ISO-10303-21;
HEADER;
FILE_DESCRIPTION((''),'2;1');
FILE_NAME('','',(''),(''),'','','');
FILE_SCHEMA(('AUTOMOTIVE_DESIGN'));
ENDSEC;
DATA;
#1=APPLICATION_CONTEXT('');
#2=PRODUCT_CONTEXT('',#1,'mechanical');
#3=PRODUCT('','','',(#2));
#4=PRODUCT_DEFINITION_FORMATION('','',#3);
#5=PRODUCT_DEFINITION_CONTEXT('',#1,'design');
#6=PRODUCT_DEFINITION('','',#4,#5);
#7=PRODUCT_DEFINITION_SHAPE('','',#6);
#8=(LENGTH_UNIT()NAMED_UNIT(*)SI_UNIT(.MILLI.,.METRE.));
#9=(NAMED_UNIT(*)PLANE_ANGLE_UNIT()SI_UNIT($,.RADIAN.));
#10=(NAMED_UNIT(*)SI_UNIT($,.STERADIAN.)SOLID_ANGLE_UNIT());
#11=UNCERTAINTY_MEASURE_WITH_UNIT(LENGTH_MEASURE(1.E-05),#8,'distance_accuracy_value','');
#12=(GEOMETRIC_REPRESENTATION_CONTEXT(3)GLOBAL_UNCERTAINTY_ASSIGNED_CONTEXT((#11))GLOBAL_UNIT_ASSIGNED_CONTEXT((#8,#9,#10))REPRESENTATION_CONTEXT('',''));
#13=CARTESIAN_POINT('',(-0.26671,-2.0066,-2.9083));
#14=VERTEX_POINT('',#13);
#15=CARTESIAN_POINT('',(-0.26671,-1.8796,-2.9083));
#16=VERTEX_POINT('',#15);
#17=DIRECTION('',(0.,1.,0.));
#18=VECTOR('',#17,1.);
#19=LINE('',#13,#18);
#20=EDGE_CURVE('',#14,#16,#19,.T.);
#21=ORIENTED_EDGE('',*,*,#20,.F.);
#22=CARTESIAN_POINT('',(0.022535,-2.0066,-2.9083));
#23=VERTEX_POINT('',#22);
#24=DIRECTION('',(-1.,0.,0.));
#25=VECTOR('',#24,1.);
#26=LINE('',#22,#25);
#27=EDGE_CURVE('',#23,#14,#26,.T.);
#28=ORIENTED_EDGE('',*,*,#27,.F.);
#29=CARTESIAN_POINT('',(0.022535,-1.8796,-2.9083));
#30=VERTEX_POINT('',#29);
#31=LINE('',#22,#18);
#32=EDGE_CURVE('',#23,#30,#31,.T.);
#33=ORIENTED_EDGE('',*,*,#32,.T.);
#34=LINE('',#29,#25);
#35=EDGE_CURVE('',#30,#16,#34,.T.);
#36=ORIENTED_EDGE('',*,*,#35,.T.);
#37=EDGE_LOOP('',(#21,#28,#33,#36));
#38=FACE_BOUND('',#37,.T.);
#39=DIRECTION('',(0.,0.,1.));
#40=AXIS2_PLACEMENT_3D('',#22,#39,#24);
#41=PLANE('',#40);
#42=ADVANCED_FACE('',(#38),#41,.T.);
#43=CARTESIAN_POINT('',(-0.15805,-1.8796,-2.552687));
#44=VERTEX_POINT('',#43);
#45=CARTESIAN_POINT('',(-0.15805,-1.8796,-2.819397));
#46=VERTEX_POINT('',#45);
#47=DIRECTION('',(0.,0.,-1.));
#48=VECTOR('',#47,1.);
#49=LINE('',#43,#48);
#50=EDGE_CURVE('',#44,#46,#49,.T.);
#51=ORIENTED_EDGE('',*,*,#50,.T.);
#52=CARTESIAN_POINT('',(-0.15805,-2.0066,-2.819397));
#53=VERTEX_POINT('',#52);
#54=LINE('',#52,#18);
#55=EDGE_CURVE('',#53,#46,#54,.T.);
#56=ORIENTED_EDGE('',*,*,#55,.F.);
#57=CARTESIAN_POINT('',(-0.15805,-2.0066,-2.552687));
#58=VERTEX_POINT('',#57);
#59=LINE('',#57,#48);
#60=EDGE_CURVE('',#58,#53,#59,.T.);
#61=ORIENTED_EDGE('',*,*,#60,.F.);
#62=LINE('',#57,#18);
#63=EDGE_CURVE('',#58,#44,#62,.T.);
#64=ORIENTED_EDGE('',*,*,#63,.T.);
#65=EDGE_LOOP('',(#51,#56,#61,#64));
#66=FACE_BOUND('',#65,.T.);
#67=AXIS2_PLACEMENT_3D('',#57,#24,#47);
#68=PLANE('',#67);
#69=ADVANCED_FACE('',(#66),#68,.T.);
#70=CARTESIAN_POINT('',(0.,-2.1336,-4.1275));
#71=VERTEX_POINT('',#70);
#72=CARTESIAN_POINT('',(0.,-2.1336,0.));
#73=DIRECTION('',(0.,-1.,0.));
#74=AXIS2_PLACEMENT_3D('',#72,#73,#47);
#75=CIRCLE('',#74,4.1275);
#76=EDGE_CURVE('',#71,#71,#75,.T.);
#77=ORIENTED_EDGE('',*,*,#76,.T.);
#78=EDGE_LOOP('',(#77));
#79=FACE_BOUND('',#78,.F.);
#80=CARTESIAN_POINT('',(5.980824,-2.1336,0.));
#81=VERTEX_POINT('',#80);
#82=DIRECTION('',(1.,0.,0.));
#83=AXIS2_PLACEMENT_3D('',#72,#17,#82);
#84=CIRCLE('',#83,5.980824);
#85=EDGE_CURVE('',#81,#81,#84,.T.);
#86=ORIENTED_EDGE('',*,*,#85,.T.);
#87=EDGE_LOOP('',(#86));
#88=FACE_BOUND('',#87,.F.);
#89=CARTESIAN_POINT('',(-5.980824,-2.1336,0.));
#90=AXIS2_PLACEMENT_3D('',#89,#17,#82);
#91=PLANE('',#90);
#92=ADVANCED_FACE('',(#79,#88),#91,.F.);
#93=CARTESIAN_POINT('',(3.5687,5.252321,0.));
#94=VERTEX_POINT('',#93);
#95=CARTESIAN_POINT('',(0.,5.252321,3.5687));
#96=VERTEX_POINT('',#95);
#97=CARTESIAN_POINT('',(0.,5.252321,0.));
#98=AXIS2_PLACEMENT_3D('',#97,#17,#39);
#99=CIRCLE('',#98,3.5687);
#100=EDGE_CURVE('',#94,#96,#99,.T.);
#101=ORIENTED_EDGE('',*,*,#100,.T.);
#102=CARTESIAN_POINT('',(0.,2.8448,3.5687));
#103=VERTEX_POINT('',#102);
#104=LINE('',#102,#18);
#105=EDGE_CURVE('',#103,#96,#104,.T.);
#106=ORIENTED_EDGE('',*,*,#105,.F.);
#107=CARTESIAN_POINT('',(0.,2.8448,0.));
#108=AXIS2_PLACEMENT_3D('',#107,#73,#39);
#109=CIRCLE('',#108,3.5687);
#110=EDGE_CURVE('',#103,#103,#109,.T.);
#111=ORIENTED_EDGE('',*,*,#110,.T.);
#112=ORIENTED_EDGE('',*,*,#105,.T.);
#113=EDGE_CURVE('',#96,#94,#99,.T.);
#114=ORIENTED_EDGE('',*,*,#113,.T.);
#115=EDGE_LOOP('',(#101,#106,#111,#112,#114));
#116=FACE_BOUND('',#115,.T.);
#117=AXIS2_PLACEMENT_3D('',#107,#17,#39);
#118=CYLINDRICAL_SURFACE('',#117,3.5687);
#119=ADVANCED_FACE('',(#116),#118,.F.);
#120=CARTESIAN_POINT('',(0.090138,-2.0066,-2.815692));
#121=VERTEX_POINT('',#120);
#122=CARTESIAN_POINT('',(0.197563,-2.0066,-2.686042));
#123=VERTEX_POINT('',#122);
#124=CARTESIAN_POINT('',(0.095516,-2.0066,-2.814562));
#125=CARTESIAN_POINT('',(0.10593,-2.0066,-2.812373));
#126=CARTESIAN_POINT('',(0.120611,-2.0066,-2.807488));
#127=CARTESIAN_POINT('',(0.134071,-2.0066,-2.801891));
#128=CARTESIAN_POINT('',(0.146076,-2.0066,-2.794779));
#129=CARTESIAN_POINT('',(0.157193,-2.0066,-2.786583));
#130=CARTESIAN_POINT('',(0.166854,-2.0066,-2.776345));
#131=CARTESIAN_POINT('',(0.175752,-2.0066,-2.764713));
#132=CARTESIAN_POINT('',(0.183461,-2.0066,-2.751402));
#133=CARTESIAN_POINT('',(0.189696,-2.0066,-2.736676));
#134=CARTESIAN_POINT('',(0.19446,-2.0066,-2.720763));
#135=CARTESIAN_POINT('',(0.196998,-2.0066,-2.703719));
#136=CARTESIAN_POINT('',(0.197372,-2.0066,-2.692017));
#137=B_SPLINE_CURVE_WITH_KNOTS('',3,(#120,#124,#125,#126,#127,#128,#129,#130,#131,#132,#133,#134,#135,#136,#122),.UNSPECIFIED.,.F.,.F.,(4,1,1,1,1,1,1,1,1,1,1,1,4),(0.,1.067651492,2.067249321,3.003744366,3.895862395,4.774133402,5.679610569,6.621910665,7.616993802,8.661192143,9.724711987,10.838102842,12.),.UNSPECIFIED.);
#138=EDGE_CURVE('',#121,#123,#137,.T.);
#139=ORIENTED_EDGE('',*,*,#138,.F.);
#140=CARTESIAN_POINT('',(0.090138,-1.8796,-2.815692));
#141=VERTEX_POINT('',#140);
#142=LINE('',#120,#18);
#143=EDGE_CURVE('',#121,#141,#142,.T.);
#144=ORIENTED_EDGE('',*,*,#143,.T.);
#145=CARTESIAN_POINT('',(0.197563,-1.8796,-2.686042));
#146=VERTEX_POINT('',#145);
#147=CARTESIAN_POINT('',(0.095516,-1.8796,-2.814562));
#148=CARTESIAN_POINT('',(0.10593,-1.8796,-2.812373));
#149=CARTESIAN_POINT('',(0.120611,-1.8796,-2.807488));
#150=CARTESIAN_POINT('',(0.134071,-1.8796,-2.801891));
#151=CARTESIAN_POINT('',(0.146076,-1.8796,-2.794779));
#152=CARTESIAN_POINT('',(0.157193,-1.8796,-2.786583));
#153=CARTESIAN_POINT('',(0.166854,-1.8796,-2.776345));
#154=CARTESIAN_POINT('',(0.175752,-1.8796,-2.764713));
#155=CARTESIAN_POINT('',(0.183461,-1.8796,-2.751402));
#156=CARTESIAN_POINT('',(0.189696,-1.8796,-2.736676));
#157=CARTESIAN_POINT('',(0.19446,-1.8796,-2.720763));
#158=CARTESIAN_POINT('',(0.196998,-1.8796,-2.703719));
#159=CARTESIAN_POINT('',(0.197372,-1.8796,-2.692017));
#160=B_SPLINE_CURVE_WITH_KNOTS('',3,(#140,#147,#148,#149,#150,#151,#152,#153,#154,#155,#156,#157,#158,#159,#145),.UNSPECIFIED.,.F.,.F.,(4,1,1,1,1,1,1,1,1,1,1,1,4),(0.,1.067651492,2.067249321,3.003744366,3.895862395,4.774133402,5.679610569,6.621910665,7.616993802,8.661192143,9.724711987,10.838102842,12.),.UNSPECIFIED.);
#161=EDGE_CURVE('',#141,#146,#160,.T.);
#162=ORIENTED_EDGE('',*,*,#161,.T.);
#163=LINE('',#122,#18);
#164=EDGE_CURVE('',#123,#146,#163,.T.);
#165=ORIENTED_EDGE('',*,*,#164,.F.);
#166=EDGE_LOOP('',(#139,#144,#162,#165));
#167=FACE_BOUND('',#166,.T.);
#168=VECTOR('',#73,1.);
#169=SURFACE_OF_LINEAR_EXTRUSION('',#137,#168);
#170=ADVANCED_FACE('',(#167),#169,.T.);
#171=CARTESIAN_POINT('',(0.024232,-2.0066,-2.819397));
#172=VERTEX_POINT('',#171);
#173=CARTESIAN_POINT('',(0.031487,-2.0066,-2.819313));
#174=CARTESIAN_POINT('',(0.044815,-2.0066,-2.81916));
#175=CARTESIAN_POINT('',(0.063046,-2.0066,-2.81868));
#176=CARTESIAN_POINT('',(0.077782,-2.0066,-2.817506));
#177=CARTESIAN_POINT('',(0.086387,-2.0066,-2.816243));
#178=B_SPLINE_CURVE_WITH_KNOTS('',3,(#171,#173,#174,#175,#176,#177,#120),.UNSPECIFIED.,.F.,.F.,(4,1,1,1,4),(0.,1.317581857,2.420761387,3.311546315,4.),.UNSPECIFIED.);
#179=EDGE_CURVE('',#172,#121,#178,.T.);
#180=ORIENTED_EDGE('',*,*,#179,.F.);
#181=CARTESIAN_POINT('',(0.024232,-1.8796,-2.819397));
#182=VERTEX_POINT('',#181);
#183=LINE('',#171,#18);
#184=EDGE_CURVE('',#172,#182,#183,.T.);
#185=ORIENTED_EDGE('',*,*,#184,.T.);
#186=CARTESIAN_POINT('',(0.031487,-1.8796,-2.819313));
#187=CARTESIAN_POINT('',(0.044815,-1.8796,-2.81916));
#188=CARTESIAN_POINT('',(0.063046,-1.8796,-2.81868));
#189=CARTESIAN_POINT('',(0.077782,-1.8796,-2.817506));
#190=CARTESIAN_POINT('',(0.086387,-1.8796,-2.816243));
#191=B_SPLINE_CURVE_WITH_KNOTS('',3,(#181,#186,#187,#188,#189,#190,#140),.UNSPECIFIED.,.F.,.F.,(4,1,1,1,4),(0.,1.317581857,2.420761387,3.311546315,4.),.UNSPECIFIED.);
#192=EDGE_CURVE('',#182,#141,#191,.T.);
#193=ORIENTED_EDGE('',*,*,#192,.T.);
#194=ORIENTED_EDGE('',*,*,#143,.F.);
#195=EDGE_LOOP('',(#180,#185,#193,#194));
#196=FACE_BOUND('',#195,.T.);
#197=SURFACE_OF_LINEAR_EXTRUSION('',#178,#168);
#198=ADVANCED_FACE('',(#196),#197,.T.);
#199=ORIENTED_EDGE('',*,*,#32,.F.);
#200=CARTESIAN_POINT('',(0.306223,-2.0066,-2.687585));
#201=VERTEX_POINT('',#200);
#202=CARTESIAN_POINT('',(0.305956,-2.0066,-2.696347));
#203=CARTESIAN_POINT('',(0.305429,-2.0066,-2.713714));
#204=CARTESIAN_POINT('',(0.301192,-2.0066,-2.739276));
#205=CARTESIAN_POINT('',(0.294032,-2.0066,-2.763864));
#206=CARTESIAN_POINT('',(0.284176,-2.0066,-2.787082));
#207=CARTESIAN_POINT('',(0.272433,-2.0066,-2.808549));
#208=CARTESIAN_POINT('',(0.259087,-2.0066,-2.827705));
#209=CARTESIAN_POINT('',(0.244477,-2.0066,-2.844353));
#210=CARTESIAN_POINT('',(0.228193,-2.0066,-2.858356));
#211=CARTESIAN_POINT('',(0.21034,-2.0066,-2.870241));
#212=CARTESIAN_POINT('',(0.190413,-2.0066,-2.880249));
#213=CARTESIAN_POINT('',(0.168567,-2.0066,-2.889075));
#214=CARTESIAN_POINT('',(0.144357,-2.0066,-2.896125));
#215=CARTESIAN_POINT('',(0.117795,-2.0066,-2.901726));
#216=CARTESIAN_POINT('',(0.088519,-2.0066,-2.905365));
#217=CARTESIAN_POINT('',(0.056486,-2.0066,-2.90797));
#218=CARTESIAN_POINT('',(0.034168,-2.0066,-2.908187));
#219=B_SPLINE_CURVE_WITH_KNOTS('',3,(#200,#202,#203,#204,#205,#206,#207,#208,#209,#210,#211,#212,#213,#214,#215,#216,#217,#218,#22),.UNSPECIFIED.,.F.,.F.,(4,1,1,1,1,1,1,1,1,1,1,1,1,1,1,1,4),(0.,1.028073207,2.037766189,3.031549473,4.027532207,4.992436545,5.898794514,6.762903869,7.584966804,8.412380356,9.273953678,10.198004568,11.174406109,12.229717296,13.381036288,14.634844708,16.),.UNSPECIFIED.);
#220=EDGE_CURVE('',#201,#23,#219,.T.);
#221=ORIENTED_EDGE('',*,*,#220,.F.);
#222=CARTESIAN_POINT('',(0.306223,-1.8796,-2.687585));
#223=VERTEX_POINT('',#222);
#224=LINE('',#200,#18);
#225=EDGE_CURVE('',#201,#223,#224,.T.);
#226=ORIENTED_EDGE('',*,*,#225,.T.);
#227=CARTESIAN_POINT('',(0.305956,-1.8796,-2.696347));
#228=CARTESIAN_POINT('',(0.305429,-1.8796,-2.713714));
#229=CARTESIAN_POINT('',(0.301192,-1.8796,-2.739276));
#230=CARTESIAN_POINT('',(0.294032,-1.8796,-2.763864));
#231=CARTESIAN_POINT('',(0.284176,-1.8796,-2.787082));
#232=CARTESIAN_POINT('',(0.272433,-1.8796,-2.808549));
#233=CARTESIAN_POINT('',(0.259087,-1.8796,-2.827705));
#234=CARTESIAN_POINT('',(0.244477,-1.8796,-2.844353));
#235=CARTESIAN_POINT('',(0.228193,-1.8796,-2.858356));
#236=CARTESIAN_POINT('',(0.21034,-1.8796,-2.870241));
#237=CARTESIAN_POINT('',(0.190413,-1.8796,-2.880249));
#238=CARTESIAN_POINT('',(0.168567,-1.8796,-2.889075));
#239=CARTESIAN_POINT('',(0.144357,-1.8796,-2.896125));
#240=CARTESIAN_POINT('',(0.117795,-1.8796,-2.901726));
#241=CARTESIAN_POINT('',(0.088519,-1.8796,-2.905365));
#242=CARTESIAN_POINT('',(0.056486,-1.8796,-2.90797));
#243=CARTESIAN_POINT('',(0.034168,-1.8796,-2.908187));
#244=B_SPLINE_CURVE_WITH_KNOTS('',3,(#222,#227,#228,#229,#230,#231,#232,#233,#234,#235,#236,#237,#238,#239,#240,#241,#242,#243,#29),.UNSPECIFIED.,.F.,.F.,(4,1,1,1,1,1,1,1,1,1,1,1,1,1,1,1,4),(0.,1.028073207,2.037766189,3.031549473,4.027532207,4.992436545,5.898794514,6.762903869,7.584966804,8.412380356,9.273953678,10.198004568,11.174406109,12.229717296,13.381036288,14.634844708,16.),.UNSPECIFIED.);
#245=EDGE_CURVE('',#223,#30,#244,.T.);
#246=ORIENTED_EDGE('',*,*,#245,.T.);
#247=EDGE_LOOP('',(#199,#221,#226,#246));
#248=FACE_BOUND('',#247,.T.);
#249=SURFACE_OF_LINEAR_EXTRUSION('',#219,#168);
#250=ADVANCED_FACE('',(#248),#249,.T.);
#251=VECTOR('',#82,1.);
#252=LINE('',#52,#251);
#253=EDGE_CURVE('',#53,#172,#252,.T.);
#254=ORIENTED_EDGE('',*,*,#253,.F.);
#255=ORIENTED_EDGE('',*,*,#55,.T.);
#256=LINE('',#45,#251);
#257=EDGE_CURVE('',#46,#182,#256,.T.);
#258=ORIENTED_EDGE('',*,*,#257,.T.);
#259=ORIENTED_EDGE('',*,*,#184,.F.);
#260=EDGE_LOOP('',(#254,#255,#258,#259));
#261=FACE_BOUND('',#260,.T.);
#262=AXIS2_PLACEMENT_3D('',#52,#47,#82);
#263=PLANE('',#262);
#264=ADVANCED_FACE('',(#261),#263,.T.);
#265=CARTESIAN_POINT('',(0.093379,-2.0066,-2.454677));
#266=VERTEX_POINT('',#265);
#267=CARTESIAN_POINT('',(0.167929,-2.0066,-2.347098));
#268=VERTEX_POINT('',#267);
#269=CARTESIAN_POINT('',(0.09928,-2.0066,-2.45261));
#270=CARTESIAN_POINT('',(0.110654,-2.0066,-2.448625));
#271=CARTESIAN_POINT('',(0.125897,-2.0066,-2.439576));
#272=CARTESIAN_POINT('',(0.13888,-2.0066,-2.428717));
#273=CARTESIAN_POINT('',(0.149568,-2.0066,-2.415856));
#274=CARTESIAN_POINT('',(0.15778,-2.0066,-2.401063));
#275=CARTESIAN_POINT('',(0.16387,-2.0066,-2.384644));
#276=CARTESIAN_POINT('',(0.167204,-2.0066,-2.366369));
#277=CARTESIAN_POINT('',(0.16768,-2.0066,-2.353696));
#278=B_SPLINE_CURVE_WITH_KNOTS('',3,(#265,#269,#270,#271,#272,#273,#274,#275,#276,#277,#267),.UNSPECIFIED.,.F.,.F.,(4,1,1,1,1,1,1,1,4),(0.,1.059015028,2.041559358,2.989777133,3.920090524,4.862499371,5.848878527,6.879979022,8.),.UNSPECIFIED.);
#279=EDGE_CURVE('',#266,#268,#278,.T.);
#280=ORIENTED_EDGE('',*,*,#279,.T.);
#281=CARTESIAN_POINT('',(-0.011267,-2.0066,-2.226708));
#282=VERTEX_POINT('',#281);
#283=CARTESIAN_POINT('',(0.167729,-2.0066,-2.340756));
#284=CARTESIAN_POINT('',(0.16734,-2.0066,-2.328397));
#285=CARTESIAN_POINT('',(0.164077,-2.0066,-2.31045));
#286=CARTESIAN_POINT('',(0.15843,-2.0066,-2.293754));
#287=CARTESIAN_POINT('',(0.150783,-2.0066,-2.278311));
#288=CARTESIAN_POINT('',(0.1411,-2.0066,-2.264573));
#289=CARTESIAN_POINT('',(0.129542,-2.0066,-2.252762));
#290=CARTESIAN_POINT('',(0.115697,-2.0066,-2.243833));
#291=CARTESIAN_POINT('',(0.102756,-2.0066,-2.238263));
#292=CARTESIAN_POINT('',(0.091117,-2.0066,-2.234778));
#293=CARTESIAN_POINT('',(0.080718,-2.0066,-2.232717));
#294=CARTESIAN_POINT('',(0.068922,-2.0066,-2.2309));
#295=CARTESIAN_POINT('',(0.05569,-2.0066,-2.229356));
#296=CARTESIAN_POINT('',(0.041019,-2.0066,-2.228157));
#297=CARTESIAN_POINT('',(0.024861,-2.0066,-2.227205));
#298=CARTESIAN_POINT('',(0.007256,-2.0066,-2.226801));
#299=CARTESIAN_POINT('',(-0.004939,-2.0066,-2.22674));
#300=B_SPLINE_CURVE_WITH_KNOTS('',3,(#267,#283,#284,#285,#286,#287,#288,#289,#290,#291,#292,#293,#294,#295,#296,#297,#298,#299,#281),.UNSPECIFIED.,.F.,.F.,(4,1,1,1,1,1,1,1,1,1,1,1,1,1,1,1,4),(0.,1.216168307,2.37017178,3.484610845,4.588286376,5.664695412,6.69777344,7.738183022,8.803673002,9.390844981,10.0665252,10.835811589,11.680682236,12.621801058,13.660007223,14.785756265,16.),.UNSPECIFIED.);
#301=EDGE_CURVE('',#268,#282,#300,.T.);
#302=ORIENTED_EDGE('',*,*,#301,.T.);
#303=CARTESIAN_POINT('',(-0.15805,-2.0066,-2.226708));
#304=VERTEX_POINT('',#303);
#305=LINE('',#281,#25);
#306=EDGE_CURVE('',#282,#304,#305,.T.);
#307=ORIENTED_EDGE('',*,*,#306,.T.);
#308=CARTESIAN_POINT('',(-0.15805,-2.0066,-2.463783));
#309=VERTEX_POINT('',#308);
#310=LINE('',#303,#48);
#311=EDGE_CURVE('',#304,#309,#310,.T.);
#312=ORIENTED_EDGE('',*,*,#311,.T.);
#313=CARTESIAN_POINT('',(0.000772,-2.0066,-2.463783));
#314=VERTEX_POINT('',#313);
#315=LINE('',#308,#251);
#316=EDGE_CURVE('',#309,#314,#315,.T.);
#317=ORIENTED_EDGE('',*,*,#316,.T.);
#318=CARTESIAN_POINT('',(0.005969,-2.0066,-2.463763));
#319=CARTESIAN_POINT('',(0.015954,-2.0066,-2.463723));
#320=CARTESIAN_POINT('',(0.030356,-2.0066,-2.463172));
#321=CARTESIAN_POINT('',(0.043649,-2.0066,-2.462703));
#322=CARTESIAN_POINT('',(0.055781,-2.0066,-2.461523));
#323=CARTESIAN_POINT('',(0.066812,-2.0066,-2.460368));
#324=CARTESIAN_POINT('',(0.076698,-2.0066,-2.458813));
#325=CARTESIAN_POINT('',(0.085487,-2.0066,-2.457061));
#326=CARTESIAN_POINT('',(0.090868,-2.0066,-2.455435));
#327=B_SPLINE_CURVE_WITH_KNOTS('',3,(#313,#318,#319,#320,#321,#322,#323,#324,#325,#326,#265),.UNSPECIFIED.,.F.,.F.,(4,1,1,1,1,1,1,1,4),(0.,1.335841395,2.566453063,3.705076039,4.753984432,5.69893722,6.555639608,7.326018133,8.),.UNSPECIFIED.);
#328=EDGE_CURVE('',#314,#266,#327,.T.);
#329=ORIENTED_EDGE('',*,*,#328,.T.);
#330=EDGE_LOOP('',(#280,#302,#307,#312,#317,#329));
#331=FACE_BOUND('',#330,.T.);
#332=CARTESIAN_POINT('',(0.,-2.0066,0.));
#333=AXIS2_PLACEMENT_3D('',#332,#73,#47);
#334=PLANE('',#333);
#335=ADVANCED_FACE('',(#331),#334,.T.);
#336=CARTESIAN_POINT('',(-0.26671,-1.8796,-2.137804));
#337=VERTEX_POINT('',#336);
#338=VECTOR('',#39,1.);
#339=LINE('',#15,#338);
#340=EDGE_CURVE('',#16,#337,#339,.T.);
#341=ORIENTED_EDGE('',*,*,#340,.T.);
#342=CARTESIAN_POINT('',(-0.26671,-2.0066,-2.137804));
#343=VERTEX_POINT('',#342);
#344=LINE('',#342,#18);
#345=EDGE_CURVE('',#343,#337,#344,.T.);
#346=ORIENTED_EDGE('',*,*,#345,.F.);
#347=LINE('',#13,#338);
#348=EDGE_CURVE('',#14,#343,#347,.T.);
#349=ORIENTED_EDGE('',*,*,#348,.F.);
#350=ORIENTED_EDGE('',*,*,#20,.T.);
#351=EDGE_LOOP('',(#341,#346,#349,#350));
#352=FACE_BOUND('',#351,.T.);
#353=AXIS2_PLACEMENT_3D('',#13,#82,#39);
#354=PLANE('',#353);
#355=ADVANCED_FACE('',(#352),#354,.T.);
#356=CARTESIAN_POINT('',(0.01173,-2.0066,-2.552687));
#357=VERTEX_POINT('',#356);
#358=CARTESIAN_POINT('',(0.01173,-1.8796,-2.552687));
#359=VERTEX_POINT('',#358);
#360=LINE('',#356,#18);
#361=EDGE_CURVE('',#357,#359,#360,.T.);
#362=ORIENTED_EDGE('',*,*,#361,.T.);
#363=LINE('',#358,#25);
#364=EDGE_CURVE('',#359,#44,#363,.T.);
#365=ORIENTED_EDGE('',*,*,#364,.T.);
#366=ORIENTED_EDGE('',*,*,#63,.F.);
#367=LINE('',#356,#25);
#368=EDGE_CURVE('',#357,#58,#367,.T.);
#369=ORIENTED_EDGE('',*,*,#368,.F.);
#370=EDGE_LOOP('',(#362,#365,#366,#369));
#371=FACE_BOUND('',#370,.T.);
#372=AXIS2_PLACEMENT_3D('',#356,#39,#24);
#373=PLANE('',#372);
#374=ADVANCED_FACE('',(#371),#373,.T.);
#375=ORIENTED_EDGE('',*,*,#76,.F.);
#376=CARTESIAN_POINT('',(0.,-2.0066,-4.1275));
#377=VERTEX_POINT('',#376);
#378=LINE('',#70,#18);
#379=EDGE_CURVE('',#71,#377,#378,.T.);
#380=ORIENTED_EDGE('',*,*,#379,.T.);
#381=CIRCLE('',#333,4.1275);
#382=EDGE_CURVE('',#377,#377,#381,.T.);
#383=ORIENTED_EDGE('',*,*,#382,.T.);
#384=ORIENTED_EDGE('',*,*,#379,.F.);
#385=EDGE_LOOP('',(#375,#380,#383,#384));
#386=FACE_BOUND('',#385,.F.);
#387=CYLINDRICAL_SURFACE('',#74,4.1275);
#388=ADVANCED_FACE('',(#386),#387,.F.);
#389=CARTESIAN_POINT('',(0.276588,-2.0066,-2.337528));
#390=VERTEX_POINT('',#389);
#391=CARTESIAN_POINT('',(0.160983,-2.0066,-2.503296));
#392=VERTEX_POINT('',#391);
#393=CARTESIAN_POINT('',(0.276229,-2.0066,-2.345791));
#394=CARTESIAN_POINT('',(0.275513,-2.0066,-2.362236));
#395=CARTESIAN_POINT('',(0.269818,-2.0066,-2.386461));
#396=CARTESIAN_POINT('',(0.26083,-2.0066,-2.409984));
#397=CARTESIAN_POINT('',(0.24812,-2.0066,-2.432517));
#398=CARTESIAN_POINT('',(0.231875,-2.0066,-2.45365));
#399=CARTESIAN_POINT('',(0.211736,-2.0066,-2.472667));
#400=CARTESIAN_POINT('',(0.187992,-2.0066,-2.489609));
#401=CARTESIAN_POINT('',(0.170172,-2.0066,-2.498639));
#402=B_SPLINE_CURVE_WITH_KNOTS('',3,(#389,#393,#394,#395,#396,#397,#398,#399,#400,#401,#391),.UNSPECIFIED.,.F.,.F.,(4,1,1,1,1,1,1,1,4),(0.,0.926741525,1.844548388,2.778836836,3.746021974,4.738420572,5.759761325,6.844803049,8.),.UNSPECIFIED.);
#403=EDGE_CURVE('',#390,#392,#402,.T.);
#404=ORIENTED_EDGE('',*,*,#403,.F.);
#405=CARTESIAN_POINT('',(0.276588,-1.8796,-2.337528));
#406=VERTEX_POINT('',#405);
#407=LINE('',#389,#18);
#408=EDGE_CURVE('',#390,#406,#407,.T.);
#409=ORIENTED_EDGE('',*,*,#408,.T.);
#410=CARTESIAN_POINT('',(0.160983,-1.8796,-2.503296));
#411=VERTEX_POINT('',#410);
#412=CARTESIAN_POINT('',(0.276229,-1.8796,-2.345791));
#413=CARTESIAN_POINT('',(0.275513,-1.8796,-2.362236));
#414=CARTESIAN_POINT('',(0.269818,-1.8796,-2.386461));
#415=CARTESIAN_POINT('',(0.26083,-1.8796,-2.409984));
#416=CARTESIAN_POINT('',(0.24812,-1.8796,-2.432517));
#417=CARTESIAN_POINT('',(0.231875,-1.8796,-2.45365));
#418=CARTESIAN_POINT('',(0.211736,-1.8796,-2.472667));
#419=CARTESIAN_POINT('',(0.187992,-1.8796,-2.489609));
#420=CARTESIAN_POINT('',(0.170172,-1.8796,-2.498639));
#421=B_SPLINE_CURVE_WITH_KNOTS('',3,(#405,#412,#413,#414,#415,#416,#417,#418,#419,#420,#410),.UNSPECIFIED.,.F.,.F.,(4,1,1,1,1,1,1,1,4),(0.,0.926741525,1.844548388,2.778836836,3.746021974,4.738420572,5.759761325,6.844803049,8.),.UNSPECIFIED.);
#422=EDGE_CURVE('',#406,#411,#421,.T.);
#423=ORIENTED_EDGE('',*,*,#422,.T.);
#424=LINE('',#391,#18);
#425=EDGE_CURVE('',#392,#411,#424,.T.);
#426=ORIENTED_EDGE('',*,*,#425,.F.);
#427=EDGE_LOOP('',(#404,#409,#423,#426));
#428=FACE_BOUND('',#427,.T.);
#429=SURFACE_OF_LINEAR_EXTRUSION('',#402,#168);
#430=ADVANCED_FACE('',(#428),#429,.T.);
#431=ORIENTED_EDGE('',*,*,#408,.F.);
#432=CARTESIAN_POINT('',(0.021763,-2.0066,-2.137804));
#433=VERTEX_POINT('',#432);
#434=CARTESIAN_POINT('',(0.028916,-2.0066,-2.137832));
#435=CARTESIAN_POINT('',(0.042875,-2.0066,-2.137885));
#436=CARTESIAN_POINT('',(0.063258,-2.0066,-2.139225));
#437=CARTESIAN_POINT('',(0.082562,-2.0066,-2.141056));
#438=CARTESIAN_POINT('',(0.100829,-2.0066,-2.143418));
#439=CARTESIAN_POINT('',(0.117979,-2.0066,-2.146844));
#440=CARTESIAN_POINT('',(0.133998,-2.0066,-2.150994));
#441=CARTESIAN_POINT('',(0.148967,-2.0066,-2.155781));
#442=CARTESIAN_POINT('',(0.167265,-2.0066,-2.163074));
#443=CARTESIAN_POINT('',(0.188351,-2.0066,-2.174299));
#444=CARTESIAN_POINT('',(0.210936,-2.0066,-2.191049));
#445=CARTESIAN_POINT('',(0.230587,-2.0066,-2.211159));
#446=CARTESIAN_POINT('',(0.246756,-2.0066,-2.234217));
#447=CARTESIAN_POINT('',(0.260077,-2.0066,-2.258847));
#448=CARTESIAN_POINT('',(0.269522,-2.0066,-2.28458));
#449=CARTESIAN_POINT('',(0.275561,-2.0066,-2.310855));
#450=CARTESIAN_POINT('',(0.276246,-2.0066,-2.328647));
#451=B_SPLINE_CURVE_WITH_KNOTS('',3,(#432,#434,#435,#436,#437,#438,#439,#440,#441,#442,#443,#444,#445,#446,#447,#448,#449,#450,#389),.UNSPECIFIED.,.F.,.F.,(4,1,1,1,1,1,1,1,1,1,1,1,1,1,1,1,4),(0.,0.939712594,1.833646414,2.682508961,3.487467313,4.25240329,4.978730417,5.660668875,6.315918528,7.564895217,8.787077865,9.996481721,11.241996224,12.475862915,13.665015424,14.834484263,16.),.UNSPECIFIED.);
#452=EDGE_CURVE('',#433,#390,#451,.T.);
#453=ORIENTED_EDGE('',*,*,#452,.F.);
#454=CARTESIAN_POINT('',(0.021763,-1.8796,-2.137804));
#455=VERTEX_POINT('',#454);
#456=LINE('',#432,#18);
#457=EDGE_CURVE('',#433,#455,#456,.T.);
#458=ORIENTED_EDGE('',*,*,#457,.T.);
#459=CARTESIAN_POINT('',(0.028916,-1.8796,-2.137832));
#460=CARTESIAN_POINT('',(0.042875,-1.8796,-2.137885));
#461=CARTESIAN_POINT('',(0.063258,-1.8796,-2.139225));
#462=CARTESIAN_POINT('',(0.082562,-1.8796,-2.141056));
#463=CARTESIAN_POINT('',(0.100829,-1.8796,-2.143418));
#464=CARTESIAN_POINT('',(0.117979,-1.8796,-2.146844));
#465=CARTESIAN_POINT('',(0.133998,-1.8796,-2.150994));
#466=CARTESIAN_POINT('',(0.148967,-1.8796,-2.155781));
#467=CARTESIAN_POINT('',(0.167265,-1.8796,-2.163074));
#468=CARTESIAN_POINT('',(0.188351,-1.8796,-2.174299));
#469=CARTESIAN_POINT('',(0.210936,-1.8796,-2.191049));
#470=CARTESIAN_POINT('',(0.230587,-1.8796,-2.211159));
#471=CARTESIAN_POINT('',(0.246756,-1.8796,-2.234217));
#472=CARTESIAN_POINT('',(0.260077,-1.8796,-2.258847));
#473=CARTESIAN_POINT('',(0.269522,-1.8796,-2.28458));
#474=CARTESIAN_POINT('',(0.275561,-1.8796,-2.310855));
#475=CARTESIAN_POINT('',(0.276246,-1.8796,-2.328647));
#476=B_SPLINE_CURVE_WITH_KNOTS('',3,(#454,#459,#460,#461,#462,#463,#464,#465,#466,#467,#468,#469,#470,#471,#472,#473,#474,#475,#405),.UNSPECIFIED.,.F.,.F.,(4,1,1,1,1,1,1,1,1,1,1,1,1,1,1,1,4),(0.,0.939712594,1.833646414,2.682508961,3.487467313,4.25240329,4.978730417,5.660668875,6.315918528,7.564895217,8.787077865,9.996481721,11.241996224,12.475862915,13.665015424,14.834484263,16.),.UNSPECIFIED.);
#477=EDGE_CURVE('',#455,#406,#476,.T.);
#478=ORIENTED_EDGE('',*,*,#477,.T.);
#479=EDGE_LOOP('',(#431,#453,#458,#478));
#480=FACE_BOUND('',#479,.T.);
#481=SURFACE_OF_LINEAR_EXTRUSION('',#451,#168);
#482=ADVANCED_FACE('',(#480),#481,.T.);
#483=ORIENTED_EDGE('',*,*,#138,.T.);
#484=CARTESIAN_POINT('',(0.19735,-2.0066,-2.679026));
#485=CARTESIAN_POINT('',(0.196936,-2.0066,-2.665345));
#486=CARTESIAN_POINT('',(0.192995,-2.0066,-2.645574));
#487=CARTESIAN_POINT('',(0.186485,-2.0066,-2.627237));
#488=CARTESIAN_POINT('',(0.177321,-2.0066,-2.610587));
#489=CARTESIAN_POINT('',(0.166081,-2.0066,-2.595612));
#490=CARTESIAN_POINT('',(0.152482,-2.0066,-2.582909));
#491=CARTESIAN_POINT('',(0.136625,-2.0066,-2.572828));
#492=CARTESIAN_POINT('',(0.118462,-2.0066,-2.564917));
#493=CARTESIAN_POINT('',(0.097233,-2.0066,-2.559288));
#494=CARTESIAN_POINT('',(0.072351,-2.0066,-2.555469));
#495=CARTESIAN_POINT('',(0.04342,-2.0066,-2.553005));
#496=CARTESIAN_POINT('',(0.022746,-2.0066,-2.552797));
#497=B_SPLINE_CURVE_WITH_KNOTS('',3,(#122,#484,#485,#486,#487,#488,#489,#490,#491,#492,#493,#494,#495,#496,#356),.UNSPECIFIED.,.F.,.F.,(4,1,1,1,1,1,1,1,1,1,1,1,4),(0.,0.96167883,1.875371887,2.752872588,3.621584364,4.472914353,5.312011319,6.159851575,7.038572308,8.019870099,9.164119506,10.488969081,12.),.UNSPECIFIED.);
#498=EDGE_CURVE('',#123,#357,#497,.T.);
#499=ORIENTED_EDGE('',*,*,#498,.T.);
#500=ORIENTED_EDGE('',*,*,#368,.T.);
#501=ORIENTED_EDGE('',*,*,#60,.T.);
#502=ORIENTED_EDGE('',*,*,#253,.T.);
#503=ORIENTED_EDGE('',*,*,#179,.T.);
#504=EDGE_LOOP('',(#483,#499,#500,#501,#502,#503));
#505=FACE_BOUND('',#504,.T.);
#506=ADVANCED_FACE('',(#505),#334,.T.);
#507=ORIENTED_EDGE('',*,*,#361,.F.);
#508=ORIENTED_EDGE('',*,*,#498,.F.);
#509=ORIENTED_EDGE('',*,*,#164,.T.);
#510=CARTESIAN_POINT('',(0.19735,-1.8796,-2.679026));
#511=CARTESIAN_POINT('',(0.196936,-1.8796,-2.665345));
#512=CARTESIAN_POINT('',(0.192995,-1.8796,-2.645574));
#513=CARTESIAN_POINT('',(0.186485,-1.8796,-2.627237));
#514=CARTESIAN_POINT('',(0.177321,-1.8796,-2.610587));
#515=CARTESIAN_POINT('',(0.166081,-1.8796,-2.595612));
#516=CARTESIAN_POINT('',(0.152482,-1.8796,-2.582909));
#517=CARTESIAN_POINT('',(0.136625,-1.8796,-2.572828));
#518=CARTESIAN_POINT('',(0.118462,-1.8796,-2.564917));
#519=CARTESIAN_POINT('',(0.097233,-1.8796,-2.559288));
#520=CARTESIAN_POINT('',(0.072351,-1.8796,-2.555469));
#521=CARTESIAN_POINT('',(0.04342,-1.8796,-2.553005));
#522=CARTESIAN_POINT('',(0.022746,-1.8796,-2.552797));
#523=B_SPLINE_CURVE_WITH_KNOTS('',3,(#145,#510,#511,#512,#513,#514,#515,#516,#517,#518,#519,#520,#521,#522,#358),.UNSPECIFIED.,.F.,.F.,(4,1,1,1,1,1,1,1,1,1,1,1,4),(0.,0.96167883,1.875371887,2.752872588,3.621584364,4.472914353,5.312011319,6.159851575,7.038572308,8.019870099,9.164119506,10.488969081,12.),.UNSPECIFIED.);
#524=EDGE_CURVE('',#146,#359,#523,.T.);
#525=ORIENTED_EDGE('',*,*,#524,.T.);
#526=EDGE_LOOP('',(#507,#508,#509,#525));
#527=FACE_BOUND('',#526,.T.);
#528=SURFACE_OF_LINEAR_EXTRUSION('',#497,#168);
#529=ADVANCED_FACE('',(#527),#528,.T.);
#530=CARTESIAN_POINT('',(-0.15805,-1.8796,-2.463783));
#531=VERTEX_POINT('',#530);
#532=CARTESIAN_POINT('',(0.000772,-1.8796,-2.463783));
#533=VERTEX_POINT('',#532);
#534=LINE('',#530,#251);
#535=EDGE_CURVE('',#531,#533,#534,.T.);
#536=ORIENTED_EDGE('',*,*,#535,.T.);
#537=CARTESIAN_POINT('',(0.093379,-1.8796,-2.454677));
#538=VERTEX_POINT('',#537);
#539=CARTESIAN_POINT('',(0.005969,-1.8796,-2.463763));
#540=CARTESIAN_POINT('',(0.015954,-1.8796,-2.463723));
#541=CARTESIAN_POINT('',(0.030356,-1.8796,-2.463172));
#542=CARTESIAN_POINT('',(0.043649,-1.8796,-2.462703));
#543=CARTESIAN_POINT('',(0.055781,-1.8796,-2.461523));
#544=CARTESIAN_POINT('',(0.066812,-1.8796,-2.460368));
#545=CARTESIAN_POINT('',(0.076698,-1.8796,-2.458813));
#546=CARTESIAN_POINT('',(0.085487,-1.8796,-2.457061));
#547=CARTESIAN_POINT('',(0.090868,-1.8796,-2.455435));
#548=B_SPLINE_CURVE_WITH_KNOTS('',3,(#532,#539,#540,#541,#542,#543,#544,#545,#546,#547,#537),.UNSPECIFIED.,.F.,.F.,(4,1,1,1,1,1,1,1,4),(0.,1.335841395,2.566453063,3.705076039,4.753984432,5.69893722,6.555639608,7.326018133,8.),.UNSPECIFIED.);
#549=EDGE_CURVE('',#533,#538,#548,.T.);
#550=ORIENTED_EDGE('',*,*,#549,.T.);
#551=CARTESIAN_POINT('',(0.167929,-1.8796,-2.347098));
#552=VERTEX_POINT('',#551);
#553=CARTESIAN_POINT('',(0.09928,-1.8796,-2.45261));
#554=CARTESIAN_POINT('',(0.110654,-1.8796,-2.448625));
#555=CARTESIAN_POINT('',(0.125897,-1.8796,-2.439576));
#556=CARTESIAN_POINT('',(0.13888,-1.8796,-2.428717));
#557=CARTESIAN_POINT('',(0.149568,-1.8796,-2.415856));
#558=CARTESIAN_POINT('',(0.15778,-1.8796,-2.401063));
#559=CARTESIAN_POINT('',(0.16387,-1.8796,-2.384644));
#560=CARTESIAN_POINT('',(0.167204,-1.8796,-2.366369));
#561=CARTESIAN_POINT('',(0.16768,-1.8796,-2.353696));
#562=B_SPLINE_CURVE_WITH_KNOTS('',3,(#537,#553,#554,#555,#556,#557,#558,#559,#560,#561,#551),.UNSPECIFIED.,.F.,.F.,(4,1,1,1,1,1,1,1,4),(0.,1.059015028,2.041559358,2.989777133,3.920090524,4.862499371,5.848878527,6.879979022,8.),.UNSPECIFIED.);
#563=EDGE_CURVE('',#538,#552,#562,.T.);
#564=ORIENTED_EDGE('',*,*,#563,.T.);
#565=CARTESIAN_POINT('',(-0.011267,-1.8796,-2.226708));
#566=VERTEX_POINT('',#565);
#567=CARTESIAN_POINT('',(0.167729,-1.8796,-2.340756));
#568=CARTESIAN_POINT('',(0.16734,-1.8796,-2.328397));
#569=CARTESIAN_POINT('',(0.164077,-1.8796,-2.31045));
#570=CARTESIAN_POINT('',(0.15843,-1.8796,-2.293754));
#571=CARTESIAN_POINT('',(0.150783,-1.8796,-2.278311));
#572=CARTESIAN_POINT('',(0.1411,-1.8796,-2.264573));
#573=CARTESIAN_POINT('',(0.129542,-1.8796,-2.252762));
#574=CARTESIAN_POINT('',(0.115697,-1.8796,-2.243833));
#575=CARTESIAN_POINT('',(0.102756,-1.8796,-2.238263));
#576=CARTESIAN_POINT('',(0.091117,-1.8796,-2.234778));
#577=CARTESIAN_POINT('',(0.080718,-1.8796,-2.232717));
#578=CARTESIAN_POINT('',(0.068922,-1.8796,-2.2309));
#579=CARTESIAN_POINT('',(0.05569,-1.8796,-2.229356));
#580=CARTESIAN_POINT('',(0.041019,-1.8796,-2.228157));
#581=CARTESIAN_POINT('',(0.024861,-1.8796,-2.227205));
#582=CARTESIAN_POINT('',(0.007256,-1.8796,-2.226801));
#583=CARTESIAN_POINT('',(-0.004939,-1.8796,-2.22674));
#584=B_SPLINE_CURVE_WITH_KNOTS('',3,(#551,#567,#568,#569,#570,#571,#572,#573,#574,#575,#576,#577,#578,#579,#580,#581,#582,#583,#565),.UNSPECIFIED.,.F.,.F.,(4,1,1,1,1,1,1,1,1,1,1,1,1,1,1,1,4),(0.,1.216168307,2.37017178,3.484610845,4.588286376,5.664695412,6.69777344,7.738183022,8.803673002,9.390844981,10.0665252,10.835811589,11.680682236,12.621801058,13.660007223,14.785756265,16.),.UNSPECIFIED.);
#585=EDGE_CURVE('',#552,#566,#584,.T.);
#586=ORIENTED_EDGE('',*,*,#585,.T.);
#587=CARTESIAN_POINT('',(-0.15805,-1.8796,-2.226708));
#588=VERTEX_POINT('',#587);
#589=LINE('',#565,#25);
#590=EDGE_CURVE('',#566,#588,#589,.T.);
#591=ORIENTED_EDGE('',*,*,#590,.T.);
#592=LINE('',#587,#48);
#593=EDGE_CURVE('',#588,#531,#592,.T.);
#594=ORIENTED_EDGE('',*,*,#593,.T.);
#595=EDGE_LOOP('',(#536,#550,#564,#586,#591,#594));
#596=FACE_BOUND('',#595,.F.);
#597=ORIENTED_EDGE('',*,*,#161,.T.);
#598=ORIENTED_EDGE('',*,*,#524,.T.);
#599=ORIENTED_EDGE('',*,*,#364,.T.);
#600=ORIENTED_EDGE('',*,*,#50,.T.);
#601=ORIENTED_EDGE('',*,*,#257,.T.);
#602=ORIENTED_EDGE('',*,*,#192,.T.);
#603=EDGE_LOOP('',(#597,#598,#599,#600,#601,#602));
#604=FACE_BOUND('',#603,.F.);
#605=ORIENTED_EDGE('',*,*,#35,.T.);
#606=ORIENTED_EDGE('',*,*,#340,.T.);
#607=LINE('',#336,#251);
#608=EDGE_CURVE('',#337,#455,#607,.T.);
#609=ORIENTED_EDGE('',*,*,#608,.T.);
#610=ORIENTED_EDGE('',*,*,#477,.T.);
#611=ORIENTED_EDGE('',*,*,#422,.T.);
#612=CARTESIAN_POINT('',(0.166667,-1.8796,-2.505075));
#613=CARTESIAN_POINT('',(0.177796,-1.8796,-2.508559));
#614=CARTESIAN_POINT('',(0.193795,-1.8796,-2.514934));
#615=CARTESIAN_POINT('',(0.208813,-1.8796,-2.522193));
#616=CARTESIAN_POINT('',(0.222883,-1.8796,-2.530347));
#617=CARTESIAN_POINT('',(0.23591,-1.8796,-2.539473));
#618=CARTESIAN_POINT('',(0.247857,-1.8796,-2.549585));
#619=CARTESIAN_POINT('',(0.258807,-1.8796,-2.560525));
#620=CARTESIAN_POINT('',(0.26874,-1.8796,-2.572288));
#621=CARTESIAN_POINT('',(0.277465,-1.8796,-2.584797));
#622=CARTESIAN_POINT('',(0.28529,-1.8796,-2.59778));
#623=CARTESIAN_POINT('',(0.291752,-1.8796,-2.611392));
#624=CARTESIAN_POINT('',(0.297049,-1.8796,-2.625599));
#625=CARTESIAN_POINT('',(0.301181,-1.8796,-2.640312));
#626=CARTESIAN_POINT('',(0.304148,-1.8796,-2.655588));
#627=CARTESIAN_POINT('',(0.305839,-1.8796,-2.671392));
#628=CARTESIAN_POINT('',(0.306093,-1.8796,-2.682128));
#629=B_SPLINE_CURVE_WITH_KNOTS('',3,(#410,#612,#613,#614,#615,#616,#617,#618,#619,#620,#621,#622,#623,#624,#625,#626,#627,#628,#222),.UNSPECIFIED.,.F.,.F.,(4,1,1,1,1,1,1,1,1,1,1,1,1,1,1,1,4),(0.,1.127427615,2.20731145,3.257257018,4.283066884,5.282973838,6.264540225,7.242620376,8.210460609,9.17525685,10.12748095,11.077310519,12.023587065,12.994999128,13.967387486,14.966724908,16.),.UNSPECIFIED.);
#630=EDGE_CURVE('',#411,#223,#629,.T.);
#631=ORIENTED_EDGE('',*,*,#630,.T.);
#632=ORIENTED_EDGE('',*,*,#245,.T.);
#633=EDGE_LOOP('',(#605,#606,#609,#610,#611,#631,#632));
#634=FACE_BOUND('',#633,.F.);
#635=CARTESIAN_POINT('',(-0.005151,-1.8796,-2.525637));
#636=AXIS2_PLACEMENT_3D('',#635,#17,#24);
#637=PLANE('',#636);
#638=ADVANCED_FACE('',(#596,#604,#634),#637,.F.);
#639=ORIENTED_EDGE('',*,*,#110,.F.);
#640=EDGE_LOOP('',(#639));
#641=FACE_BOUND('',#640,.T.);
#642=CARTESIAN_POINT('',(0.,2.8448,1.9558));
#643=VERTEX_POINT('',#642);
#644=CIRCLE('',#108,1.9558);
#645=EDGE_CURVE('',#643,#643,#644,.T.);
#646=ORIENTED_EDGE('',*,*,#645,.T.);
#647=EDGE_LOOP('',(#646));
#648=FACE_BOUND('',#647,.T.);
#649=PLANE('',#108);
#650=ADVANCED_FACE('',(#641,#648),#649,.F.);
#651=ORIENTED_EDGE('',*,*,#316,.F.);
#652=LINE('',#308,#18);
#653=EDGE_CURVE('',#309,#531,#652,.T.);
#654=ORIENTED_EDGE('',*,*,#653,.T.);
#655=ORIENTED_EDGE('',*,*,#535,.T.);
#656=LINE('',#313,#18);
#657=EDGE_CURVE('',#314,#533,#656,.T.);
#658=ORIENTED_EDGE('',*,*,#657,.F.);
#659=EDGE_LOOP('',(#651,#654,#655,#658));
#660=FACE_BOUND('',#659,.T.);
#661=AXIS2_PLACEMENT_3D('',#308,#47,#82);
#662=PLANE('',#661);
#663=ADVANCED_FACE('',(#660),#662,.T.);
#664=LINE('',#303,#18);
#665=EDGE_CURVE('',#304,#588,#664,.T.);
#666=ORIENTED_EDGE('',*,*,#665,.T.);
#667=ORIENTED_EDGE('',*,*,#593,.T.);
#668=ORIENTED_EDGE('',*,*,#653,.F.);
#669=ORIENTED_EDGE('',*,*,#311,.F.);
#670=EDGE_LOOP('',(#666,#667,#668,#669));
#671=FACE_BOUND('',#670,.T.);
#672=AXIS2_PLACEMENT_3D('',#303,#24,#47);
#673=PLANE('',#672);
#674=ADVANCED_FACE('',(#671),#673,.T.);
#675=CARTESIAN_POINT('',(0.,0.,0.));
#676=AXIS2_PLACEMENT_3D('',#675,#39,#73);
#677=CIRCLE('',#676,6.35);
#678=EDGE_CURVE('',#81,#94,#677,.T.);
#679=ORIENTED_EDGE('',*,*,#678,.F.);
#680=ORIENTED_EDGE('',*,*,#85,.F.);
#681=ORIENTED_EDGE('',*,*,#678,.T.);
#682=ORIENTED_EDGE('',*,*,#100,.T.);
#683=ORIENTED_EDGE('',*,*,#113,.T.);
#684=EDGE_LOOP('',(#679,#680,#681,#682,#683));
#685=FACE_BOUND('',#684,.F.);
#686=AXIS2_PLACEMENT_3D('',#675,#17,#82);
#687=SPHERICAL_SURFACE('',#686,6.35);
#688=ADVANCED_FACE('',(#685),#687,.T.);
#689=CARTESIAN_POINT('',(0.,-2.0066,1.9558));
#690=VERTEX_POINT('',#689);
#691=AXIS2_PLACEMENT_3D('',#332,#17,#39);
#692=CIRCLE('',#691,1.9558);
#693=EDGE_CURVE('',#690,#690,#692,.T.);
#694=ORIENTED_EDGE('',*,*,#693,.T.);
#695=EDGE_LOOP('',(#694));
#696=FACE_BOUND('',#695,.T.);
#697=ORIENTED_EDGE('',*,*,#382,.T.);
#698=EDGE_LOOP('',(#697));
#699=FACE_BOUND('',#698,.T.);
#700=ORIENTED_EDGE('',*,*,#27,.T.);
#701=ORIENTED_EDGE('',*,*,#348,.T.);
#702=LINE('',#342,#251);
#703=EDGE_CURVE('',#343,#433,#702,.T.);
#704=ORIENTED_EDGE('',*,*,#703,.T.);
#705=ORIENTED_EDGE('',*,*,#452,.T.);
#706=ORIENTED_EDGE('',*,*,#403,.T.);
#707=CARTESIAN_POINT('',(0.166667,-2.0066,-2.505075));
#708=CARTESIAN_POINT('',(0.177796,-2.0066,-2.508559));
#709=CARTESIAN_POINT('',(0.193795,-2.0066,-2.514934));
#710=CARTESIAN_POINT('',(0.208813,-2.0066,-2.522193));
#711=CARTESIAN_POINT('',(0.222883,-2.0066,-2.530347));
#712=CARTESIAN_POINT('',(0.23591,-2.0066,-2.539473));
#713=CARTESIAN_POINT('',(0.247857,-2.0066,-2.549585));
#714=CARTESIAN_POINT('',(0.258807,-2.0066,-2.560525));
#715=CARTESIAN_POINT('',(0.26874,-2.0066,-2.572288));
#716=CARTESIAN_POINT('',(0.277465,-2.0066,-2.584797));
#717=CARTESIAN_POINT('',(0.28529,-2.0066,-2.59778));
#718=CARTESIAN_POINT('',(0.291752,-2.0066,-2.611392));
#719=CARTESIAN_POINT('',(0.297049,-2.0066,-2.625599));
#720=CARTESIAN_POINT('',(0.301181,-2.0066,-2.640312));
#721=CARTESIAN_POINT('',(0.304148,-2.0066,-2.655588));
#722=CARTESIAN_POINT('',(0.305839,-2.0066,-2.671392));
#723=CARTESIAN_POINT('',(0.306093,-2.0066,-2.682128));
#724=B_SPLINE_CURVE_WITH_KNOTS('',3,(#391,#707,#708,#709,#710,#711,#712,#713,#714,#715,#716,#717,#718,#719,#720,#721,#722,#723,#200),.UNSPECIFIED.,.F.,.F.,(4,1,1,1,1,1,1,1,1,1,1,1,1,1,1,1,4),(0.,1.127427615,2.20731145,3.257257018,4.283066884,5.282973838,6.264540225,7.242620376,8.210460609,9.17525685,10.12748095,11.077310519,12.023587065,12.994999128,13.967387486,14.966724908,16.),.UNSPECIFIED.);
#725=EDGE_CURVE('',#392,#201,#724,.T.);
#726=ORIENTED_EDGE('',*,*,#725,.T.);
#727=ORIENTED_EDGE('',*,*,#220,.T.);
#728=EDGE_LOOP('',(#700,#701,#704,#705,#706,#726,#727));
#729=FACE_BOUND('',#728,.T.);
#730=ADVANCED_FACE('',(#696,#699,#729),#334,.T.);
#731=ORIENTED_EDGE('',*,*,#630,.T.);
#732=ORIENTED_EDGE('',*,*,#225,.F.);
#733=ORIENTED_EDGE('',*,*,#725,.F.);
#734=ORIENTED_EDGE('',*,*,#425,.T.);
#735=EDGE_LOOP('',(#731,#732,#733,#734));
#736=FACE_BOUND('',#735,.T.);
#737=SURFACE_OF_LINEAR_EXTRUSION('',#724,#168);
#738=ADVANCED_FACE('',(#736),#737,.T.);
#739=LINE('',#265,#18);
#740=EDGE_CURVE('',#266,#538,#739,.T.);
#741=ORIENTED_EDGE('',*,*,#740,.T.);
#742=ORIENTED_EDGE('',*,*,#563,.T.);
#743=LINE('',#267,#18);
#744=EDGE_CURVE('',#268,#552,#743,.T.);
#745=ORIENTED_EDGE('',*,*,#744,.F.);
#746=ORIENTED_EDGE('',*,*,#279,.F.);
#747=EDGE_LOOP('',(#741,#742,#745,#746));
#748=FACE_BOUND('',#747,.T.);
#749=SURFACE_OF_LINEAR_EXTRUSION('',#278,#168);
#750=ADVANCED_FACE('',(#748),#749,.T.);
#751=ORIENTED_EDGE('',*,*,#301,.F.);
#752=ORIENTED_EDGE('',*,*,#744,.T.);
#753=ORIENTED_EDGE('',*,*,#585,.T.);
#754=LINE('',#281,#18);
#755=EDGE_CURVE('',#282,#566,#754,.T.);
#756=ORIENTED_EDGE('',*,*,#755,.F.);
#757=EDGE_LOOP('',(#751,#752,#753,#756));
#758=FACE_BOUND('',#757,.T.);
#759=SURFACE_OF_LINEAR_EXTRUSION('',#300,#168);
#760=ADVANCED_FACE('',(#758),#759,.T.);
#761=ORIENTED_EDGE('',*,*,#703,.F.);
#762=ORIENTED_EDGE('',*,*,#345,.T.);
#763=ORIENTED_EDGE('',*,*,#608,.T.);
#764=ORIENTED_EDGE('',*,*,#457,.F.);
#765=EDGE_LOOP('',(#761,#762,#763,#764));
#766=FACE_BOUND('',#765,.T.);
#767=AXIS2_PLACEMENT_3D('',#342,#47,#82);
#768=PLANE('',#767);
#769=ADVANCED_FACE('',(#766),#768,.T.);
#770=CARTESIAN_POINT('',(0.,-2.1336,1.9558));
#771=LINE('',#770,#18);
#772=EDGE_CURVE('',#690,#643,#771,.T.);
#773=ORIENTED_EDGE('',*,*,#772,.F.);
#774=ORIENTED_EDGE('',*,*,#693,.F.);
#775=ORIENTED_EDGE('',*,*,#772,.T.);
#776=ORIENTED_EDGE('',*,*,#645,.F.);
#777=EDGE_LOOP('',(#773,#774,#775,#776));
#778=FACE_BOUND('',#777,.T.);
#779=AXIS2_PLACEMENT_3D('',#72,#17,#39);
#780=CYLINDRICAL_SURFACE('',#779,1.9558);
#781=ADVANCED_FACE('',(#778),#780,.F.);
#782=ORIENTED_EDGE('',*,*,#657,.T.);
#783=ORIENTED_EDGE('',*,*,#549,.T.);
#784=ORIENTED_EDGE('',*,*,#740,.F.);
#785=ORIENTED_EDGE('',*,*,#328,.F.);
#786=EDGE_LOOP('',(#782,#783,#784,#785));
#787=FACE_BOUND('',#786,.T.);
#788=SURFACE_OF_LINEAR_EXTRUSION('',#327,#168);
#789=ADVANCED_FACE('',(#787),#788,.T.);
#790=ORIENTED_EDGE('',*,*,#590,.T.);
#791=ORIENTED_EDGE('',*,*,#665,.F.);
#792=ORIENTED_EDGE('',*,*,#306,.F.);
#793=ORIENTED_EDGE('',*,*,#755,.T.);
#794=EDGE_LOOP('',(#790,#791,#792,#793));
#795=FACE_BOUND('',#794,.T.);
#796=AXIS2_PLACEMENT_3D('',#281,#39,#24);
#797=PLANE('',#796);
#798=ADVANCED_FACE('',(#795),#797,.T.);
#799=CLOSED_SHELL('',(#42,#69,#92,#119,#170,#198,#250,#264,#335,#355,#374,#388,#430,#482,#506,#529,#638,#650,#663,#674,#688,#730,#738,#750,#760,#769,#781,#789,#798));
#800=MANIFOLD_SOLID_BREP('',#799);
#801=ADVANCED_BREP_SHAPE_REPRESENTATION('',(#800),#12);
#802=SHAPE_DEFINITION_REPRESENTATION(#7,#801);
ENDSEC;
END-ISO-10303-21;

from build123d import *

# Parameters (mm, degrees)
TRUNCATED_BALL_DEPTH      = 11.998522628
TRUNCATED_BALL_DEPTH_BACK = 11.998522628
SKETCH3_R                 = 4.1275
RECESSED_DEPTH            = 0.127
CUT_EXTRUDE1_DEPTH        = 0.127


with BuildPart() as part:
    # Sketch1 → Complete_Ball (revolve)
    with BuildSketch(Plane.XY):
        with BuildLine():
            Line((0, 6.35), (0, -6.35))
            ThreePointArc((0, -6.35), (6.35, 0), (0, 6.35))
        make_face()
    revolve(axis=Axis((0, 5.621617492, 0), (0, -1, 0)))

    # Sketch2 → Truncated_ball (cut, two sides)
    with BuildSketch(Plane.XY) as truncated_ball_sk:
        with BuildLine():
            Line((-5.980823609, -2.1336), (5.980823609, -2.1336))
            ThreePointArc((5.980823609, -2.1336), (0, -6.35), (-5.980823609, -2.1336))
        make_face()
    extrude(amount=TRUNCATED_BALL_DEPTH, mode=Mode.SUBTRACT)
    extrude(truncated_ball_sk.sketch, amount=-TRUNCATED_BALL_DEPTH_BACK, mode=Mode.SUBTRACT)

    # Sketch3 → Recessed (cut)
    with BuildSketch(Plane.XZ.offset(2.1336)):
        with Locations(Location((0, 0, 0), (0, 0, 270))):
            Circle(SKETCH3_R)
    extrude(amount=-RECESSED_DEPTH, mode=Mode.SUBTRACT)

    # Sketch5 → Counterbored_hole (revolve, cut)
    with BuildSketch(Plane.XY, mode=Mode.PRIVATE) as counterbored_hole_sk:
        Polygon((1.9558, -2.1336), (1.9558, 2.8448), (3.5687, 2.8448), (3.5687, 6.35), (0, 6.35), (0, -2.1336), align=None)
    revolve(counterbored_hole_sk.sketch.rotate(Axis((0, 7.818373071, 0), (0, -1, 0)), 90), axis=Axis((0, 7.818373071, 0), (0, -1, 0)), mode=Mode.SUBTRACT)

    # Sketch9 → Cut-Extrude1 (cut)
    with BuildSketch(Plane.XZ.offset(2.0066)):
        with BuildLine():
            Line((-0.266710017, -2.9083), (-0.266710017, -2.137804395))
            Line((-0.266710017, -2.137804395), (0.021762797, -2.137804395))
            add(Edge.make_bspline(
                [(0.021762797, -2.137804395), (0.028916445, -2.137831838), (0.042875247, -2.137885387), (0.063257985, -2.1392246), (0.08256196, -2.141056366), (0.100828728, -2.143417569), (0.117979251, -2.146843626), (0.133997544, -2.150994066), (0.148966969, -2.155781463), (0.167264808, -2.16307422), (0.188351063, -2.174299324), (0.210936444, -2.19104895), (0.230586604, -2.211159242), (0.246755795, -2.234216831), (0.260077465, -2.258846684), (0.269522373, -2.28457958), (0.275561015, -2.31085525), (0.276246169, -2.328647268), (0.276588166, -2.337528215)],
                knots=[0, 0, 0, 0, 0.939712594, 1.833646414, 2.682508961, 3.487467313, 4.25240329, 4.978730417, 5.660668875, 6.315918528, 7.564895217, 8.787077865, 9.996481721, 11.241996224, 12.475862915, 13.665015424, 14.834484263, 16, 16, 16, 16], degree=3))
            add(Edge.make_bspline(
                [(0.276588166, -2.337528215), (0.276228655, -2.345790733), (0.275513098, -2.362236109), (0.269818069, -2.386461149), (0.260829571, -2.409983511), (0.24811958, -2.432517235), (0.231874618, -2.453650072), (0.211735504, -2.472667007), (0.187991636, -2.489608795), (0.170171864, -2.498639265), (0.160982956, -2.5032959)],
                knots=[0, 0, 0, 0, 0.926741525, 1.844548388, 2.778836836, 3.746021974, 4.738420572, 5.759761325, 6.844803049, 8, 8, 8, 8], degree=3))
            add(Edge.make_bspline(
                [(0.160982956, -2.5032959), (0.166667275, -2.505075335), (0.177796205, -2.508559168), (0.193795198, -2.514934092), (0.208813366, -2.522192856), (0.2228834, -2.530347388), (0.23591023, -2.539473202), (0.2478571, -2.549584525), (0.258806843, -2.560524888), (0.268739897, -2.572287634), (0.277465043, -2.58479707), (0.285290409, -2.597779786), (0.291752256, -2.611392125), (0.297048797, -2.625598745), (0.301180886, -2.640311862), (0.304148175, -2.655588064), (0.305839455, -2.671391794), (0.306093479, -2.68212759), (0.306222612, -2.687585113)],
                knots=[0, 0, 0, 0, 1.127427615, 2.20731145, 3.257257018, 4.283066884, 5.282973838, 6.264540225, 7.242620376, 8.210460609, 9.17525685, 10.12748095, 11.077310519, 12.023587065, 12.994999128, 13.967387486, 14.966724908, 16, 16, 16, 16], degree=3))
            add(Edge.make_bspline(
                [(0.306222612, -2.687585113), (0.30595645, -2.69634709), (0.305428882, -2.713714396), (0.301191929, -2.739276148), (0.294031702, -2.7638644), (0.28417626, -2.787081588), (0.272433103, -2.808549297), (0.259086593, -2.827705432), (0.244477096, -2.844352877), (0.22819322, -2.858356354), (0.210340006, -2.870241208), (0.190413202, -2.880249032), (0.168566879, -2.889074974), (0.144357023, -2.896125462), (0.117794653, -2.901726361), (0.088519295, -2.905365274), (0.056485971, -2.907970248), (0.034167963, -2.908187011), (0.022534527, -2.9083)],
                knots=[0, 0, 0, 0, 1.028073207, 2.037766189, 3.031549473, 4.027532207, 4.992436545, 5.898794514, 6.762903869, 7.584966804, 8.412380356, 9.273953678, 10.198004568, 11.174406109, 12.229717296, 13.381036288, 14.634844708, 16, 16, 16, 16], degree=3))
            Line((0.022534527, -2.9083), (-0.266710017, -2.9083))
        make_face()
        with BuildLine():
            Line((-0.158050381, -2.463783305), (0.00077173, -2.463783305))
            add(Edge.make_bspline(
                [(0.00077173, -2.463783305), (0.005968785, -2.463762743), (0.015953502, -2.46372324), (0.030356217, -2.463172446), (0.043649233, -2.46270254), (0.055781131, -2.461523111), (0.066812012, -2.460367914), (0.076697733, -2.458812838), (0.085486714, -2.45706062), (0.090868209, -2.455435306), (0.093379375, -2.454676886)],
                knots=[0, 0, 0, 0, 1.335841395, 2.566453063, 3.705076039, 4.753984432, 5.69893722, 6.555639608, 7.326018133, 8, 8, 8, 8], degree=3))
            add(Edge.make_bspline(
                [(0.093379375, -2.454676886), (0.099279717, -2.452609996), (0.11065434, -2.448625465), (0.125897399, -2.439576193), (0.138880055, -2.428717112), (0.149567516, -2.415856475), (0.157780301, -2.401063109), (0.163869844, -2.384643791), (0.167204004, -2.366368995), (0.167680456, -2.353696066), (0.167928529, -2.347097672)],
                knots=[0, 0, 0, 0, 1.059015028, 2.041559358, 2.989777133, 3.920090524, 4.862499371, 5.848878527, 6.879979022, 8, 8, 8, 8], degree=3))
            add(Edge.make_bspline(
                [(0.167928529, -2.347097672), (0.167729061, -2.340756189), (0.167340322, -2.328397369), (0.164077197, -2.31045022), (0.158430481, -2.293753694), (0.150783282, -2.278311452), (0.141099895, -2.264573361), (0.129542435, -2.252761818), (0.115697414, -2.243832811), (0.102756467, -2.238262878), (0.09111711, -2.23477836), (0.080717754, -2.232716714), (0.068921782, -2.230900199), (0.055690377, -2.229355858), (0.041018534, -2.228157307), (0.024861047, -2.227205138), (0.007256378, -2.22680087), (-0.00493898, -2.226739552), (-0.011267263, -2.226707734)],
                knots=[0, 0, 0, 0, 1.216168307, 2.37017178, 3.484610845, 4.588286376, 5.664695412, 6.69777344, 7.738183022, 8.803673002, 9.390844981, 10.0665252, 10.835811589, 11.680682236, 12.621801058, 13.660007223, 14.785756265, 16, 16, 16, 16], degree=3))
            Line((-0.011267263, -2.226707734), (-0.158050381, -2.226707734))
            Line((-0.158050381, -2.226707734), (-0.158050381, -2.463783305))
        make_face(mode=Mode.SUBTRACT)
        with BuildLine():
            Line((-0.158050381, -2.819396661), (0.024232334, -2.819396661))
            add(Edge.make_bspline(
                [(0.024232334, -2.819396661), (0.031486765, -2.819313318), (0.044815157, -2.819160193), (0.063045794, -2.818679835), (0.077781785, -2.817506499), (0.086386824, -2.816243115), (0.090138108, -2.815692355)],
                knots=[0, 0, 0, 0, 1.317581857, 2.420761387, 3.311546315, 4, 4, 4, 4], degree=3))
            add(Edge.make_bspline(
                [(0.090138108, -2.815692355), (0.095516334, -2.814561906), (0.105929971, -2.812373065), (0.120610701, -2.807487801), (0.134071074, -2.80189147), (0.14607616, -2.794779154), (0.157192582, -2.786582698), (0.16685358, -2.776344933), (0.175751817, -2.764713097), (0.183461357, -2.751401785), (0.189695639, -2.736675926), (0.194460394, -2.720763047), (0.19699845, -2.703718942), (0.197372145, -2.692017237), (0.197562976, -2.686041652)],
                knots=[0, 0, 0, 0, 1.067651492, 2.067249321, 3.003744366, 3.895862395, 4.774133402, 5.679610569, 6.621910665, 7.616993802, 8.661192143, 9.724711987, 10.838102842, 12, 12, 12, 12], degree=3))
            add(Edge.make_bspline(
                [(0.197562976, -2.686041652), (0.197350369, -2.679025957), (0.196935765, -2.665344636), (0.192994812, -2.645574434), (0.186485001, -2.627237325), (0.177321084, -2.610587261), (0.166081062, -2.595611962), (0.15248177, -2.582908823), (0.136624895, -2.572828254), (0.118461703, -2.564916959), (0.09723257, -2.559288208), (0.072351402, -2.555469442), (0.043420216, -2.553005284), (0.02274604, -2.552797406), (0.011730302, -2.552686644)],
                knots=[0, 0, 0, 0, 0.96167883, 1.875371887, 2.752872588, 3.621584364, 4.472914353, 5.312011319, 6.159851575, 7.038572308, 8.019870099, 9.164119506, 10.488969081, 12, 12, 12, 12], degree=3))
            Line((0.011730302, -2.552686644), (-0.158050381, -2.552686644))
            Line((-0.158050381, -2.552686644), (-0.158050381, -2.819396661))
        make_face(mode=Mode.SUBTRACT)
    extrude(amount=-CUT_EXTRUDE1_DEPTH, mode=Mode.SUBTRACT)


solid = part.part
